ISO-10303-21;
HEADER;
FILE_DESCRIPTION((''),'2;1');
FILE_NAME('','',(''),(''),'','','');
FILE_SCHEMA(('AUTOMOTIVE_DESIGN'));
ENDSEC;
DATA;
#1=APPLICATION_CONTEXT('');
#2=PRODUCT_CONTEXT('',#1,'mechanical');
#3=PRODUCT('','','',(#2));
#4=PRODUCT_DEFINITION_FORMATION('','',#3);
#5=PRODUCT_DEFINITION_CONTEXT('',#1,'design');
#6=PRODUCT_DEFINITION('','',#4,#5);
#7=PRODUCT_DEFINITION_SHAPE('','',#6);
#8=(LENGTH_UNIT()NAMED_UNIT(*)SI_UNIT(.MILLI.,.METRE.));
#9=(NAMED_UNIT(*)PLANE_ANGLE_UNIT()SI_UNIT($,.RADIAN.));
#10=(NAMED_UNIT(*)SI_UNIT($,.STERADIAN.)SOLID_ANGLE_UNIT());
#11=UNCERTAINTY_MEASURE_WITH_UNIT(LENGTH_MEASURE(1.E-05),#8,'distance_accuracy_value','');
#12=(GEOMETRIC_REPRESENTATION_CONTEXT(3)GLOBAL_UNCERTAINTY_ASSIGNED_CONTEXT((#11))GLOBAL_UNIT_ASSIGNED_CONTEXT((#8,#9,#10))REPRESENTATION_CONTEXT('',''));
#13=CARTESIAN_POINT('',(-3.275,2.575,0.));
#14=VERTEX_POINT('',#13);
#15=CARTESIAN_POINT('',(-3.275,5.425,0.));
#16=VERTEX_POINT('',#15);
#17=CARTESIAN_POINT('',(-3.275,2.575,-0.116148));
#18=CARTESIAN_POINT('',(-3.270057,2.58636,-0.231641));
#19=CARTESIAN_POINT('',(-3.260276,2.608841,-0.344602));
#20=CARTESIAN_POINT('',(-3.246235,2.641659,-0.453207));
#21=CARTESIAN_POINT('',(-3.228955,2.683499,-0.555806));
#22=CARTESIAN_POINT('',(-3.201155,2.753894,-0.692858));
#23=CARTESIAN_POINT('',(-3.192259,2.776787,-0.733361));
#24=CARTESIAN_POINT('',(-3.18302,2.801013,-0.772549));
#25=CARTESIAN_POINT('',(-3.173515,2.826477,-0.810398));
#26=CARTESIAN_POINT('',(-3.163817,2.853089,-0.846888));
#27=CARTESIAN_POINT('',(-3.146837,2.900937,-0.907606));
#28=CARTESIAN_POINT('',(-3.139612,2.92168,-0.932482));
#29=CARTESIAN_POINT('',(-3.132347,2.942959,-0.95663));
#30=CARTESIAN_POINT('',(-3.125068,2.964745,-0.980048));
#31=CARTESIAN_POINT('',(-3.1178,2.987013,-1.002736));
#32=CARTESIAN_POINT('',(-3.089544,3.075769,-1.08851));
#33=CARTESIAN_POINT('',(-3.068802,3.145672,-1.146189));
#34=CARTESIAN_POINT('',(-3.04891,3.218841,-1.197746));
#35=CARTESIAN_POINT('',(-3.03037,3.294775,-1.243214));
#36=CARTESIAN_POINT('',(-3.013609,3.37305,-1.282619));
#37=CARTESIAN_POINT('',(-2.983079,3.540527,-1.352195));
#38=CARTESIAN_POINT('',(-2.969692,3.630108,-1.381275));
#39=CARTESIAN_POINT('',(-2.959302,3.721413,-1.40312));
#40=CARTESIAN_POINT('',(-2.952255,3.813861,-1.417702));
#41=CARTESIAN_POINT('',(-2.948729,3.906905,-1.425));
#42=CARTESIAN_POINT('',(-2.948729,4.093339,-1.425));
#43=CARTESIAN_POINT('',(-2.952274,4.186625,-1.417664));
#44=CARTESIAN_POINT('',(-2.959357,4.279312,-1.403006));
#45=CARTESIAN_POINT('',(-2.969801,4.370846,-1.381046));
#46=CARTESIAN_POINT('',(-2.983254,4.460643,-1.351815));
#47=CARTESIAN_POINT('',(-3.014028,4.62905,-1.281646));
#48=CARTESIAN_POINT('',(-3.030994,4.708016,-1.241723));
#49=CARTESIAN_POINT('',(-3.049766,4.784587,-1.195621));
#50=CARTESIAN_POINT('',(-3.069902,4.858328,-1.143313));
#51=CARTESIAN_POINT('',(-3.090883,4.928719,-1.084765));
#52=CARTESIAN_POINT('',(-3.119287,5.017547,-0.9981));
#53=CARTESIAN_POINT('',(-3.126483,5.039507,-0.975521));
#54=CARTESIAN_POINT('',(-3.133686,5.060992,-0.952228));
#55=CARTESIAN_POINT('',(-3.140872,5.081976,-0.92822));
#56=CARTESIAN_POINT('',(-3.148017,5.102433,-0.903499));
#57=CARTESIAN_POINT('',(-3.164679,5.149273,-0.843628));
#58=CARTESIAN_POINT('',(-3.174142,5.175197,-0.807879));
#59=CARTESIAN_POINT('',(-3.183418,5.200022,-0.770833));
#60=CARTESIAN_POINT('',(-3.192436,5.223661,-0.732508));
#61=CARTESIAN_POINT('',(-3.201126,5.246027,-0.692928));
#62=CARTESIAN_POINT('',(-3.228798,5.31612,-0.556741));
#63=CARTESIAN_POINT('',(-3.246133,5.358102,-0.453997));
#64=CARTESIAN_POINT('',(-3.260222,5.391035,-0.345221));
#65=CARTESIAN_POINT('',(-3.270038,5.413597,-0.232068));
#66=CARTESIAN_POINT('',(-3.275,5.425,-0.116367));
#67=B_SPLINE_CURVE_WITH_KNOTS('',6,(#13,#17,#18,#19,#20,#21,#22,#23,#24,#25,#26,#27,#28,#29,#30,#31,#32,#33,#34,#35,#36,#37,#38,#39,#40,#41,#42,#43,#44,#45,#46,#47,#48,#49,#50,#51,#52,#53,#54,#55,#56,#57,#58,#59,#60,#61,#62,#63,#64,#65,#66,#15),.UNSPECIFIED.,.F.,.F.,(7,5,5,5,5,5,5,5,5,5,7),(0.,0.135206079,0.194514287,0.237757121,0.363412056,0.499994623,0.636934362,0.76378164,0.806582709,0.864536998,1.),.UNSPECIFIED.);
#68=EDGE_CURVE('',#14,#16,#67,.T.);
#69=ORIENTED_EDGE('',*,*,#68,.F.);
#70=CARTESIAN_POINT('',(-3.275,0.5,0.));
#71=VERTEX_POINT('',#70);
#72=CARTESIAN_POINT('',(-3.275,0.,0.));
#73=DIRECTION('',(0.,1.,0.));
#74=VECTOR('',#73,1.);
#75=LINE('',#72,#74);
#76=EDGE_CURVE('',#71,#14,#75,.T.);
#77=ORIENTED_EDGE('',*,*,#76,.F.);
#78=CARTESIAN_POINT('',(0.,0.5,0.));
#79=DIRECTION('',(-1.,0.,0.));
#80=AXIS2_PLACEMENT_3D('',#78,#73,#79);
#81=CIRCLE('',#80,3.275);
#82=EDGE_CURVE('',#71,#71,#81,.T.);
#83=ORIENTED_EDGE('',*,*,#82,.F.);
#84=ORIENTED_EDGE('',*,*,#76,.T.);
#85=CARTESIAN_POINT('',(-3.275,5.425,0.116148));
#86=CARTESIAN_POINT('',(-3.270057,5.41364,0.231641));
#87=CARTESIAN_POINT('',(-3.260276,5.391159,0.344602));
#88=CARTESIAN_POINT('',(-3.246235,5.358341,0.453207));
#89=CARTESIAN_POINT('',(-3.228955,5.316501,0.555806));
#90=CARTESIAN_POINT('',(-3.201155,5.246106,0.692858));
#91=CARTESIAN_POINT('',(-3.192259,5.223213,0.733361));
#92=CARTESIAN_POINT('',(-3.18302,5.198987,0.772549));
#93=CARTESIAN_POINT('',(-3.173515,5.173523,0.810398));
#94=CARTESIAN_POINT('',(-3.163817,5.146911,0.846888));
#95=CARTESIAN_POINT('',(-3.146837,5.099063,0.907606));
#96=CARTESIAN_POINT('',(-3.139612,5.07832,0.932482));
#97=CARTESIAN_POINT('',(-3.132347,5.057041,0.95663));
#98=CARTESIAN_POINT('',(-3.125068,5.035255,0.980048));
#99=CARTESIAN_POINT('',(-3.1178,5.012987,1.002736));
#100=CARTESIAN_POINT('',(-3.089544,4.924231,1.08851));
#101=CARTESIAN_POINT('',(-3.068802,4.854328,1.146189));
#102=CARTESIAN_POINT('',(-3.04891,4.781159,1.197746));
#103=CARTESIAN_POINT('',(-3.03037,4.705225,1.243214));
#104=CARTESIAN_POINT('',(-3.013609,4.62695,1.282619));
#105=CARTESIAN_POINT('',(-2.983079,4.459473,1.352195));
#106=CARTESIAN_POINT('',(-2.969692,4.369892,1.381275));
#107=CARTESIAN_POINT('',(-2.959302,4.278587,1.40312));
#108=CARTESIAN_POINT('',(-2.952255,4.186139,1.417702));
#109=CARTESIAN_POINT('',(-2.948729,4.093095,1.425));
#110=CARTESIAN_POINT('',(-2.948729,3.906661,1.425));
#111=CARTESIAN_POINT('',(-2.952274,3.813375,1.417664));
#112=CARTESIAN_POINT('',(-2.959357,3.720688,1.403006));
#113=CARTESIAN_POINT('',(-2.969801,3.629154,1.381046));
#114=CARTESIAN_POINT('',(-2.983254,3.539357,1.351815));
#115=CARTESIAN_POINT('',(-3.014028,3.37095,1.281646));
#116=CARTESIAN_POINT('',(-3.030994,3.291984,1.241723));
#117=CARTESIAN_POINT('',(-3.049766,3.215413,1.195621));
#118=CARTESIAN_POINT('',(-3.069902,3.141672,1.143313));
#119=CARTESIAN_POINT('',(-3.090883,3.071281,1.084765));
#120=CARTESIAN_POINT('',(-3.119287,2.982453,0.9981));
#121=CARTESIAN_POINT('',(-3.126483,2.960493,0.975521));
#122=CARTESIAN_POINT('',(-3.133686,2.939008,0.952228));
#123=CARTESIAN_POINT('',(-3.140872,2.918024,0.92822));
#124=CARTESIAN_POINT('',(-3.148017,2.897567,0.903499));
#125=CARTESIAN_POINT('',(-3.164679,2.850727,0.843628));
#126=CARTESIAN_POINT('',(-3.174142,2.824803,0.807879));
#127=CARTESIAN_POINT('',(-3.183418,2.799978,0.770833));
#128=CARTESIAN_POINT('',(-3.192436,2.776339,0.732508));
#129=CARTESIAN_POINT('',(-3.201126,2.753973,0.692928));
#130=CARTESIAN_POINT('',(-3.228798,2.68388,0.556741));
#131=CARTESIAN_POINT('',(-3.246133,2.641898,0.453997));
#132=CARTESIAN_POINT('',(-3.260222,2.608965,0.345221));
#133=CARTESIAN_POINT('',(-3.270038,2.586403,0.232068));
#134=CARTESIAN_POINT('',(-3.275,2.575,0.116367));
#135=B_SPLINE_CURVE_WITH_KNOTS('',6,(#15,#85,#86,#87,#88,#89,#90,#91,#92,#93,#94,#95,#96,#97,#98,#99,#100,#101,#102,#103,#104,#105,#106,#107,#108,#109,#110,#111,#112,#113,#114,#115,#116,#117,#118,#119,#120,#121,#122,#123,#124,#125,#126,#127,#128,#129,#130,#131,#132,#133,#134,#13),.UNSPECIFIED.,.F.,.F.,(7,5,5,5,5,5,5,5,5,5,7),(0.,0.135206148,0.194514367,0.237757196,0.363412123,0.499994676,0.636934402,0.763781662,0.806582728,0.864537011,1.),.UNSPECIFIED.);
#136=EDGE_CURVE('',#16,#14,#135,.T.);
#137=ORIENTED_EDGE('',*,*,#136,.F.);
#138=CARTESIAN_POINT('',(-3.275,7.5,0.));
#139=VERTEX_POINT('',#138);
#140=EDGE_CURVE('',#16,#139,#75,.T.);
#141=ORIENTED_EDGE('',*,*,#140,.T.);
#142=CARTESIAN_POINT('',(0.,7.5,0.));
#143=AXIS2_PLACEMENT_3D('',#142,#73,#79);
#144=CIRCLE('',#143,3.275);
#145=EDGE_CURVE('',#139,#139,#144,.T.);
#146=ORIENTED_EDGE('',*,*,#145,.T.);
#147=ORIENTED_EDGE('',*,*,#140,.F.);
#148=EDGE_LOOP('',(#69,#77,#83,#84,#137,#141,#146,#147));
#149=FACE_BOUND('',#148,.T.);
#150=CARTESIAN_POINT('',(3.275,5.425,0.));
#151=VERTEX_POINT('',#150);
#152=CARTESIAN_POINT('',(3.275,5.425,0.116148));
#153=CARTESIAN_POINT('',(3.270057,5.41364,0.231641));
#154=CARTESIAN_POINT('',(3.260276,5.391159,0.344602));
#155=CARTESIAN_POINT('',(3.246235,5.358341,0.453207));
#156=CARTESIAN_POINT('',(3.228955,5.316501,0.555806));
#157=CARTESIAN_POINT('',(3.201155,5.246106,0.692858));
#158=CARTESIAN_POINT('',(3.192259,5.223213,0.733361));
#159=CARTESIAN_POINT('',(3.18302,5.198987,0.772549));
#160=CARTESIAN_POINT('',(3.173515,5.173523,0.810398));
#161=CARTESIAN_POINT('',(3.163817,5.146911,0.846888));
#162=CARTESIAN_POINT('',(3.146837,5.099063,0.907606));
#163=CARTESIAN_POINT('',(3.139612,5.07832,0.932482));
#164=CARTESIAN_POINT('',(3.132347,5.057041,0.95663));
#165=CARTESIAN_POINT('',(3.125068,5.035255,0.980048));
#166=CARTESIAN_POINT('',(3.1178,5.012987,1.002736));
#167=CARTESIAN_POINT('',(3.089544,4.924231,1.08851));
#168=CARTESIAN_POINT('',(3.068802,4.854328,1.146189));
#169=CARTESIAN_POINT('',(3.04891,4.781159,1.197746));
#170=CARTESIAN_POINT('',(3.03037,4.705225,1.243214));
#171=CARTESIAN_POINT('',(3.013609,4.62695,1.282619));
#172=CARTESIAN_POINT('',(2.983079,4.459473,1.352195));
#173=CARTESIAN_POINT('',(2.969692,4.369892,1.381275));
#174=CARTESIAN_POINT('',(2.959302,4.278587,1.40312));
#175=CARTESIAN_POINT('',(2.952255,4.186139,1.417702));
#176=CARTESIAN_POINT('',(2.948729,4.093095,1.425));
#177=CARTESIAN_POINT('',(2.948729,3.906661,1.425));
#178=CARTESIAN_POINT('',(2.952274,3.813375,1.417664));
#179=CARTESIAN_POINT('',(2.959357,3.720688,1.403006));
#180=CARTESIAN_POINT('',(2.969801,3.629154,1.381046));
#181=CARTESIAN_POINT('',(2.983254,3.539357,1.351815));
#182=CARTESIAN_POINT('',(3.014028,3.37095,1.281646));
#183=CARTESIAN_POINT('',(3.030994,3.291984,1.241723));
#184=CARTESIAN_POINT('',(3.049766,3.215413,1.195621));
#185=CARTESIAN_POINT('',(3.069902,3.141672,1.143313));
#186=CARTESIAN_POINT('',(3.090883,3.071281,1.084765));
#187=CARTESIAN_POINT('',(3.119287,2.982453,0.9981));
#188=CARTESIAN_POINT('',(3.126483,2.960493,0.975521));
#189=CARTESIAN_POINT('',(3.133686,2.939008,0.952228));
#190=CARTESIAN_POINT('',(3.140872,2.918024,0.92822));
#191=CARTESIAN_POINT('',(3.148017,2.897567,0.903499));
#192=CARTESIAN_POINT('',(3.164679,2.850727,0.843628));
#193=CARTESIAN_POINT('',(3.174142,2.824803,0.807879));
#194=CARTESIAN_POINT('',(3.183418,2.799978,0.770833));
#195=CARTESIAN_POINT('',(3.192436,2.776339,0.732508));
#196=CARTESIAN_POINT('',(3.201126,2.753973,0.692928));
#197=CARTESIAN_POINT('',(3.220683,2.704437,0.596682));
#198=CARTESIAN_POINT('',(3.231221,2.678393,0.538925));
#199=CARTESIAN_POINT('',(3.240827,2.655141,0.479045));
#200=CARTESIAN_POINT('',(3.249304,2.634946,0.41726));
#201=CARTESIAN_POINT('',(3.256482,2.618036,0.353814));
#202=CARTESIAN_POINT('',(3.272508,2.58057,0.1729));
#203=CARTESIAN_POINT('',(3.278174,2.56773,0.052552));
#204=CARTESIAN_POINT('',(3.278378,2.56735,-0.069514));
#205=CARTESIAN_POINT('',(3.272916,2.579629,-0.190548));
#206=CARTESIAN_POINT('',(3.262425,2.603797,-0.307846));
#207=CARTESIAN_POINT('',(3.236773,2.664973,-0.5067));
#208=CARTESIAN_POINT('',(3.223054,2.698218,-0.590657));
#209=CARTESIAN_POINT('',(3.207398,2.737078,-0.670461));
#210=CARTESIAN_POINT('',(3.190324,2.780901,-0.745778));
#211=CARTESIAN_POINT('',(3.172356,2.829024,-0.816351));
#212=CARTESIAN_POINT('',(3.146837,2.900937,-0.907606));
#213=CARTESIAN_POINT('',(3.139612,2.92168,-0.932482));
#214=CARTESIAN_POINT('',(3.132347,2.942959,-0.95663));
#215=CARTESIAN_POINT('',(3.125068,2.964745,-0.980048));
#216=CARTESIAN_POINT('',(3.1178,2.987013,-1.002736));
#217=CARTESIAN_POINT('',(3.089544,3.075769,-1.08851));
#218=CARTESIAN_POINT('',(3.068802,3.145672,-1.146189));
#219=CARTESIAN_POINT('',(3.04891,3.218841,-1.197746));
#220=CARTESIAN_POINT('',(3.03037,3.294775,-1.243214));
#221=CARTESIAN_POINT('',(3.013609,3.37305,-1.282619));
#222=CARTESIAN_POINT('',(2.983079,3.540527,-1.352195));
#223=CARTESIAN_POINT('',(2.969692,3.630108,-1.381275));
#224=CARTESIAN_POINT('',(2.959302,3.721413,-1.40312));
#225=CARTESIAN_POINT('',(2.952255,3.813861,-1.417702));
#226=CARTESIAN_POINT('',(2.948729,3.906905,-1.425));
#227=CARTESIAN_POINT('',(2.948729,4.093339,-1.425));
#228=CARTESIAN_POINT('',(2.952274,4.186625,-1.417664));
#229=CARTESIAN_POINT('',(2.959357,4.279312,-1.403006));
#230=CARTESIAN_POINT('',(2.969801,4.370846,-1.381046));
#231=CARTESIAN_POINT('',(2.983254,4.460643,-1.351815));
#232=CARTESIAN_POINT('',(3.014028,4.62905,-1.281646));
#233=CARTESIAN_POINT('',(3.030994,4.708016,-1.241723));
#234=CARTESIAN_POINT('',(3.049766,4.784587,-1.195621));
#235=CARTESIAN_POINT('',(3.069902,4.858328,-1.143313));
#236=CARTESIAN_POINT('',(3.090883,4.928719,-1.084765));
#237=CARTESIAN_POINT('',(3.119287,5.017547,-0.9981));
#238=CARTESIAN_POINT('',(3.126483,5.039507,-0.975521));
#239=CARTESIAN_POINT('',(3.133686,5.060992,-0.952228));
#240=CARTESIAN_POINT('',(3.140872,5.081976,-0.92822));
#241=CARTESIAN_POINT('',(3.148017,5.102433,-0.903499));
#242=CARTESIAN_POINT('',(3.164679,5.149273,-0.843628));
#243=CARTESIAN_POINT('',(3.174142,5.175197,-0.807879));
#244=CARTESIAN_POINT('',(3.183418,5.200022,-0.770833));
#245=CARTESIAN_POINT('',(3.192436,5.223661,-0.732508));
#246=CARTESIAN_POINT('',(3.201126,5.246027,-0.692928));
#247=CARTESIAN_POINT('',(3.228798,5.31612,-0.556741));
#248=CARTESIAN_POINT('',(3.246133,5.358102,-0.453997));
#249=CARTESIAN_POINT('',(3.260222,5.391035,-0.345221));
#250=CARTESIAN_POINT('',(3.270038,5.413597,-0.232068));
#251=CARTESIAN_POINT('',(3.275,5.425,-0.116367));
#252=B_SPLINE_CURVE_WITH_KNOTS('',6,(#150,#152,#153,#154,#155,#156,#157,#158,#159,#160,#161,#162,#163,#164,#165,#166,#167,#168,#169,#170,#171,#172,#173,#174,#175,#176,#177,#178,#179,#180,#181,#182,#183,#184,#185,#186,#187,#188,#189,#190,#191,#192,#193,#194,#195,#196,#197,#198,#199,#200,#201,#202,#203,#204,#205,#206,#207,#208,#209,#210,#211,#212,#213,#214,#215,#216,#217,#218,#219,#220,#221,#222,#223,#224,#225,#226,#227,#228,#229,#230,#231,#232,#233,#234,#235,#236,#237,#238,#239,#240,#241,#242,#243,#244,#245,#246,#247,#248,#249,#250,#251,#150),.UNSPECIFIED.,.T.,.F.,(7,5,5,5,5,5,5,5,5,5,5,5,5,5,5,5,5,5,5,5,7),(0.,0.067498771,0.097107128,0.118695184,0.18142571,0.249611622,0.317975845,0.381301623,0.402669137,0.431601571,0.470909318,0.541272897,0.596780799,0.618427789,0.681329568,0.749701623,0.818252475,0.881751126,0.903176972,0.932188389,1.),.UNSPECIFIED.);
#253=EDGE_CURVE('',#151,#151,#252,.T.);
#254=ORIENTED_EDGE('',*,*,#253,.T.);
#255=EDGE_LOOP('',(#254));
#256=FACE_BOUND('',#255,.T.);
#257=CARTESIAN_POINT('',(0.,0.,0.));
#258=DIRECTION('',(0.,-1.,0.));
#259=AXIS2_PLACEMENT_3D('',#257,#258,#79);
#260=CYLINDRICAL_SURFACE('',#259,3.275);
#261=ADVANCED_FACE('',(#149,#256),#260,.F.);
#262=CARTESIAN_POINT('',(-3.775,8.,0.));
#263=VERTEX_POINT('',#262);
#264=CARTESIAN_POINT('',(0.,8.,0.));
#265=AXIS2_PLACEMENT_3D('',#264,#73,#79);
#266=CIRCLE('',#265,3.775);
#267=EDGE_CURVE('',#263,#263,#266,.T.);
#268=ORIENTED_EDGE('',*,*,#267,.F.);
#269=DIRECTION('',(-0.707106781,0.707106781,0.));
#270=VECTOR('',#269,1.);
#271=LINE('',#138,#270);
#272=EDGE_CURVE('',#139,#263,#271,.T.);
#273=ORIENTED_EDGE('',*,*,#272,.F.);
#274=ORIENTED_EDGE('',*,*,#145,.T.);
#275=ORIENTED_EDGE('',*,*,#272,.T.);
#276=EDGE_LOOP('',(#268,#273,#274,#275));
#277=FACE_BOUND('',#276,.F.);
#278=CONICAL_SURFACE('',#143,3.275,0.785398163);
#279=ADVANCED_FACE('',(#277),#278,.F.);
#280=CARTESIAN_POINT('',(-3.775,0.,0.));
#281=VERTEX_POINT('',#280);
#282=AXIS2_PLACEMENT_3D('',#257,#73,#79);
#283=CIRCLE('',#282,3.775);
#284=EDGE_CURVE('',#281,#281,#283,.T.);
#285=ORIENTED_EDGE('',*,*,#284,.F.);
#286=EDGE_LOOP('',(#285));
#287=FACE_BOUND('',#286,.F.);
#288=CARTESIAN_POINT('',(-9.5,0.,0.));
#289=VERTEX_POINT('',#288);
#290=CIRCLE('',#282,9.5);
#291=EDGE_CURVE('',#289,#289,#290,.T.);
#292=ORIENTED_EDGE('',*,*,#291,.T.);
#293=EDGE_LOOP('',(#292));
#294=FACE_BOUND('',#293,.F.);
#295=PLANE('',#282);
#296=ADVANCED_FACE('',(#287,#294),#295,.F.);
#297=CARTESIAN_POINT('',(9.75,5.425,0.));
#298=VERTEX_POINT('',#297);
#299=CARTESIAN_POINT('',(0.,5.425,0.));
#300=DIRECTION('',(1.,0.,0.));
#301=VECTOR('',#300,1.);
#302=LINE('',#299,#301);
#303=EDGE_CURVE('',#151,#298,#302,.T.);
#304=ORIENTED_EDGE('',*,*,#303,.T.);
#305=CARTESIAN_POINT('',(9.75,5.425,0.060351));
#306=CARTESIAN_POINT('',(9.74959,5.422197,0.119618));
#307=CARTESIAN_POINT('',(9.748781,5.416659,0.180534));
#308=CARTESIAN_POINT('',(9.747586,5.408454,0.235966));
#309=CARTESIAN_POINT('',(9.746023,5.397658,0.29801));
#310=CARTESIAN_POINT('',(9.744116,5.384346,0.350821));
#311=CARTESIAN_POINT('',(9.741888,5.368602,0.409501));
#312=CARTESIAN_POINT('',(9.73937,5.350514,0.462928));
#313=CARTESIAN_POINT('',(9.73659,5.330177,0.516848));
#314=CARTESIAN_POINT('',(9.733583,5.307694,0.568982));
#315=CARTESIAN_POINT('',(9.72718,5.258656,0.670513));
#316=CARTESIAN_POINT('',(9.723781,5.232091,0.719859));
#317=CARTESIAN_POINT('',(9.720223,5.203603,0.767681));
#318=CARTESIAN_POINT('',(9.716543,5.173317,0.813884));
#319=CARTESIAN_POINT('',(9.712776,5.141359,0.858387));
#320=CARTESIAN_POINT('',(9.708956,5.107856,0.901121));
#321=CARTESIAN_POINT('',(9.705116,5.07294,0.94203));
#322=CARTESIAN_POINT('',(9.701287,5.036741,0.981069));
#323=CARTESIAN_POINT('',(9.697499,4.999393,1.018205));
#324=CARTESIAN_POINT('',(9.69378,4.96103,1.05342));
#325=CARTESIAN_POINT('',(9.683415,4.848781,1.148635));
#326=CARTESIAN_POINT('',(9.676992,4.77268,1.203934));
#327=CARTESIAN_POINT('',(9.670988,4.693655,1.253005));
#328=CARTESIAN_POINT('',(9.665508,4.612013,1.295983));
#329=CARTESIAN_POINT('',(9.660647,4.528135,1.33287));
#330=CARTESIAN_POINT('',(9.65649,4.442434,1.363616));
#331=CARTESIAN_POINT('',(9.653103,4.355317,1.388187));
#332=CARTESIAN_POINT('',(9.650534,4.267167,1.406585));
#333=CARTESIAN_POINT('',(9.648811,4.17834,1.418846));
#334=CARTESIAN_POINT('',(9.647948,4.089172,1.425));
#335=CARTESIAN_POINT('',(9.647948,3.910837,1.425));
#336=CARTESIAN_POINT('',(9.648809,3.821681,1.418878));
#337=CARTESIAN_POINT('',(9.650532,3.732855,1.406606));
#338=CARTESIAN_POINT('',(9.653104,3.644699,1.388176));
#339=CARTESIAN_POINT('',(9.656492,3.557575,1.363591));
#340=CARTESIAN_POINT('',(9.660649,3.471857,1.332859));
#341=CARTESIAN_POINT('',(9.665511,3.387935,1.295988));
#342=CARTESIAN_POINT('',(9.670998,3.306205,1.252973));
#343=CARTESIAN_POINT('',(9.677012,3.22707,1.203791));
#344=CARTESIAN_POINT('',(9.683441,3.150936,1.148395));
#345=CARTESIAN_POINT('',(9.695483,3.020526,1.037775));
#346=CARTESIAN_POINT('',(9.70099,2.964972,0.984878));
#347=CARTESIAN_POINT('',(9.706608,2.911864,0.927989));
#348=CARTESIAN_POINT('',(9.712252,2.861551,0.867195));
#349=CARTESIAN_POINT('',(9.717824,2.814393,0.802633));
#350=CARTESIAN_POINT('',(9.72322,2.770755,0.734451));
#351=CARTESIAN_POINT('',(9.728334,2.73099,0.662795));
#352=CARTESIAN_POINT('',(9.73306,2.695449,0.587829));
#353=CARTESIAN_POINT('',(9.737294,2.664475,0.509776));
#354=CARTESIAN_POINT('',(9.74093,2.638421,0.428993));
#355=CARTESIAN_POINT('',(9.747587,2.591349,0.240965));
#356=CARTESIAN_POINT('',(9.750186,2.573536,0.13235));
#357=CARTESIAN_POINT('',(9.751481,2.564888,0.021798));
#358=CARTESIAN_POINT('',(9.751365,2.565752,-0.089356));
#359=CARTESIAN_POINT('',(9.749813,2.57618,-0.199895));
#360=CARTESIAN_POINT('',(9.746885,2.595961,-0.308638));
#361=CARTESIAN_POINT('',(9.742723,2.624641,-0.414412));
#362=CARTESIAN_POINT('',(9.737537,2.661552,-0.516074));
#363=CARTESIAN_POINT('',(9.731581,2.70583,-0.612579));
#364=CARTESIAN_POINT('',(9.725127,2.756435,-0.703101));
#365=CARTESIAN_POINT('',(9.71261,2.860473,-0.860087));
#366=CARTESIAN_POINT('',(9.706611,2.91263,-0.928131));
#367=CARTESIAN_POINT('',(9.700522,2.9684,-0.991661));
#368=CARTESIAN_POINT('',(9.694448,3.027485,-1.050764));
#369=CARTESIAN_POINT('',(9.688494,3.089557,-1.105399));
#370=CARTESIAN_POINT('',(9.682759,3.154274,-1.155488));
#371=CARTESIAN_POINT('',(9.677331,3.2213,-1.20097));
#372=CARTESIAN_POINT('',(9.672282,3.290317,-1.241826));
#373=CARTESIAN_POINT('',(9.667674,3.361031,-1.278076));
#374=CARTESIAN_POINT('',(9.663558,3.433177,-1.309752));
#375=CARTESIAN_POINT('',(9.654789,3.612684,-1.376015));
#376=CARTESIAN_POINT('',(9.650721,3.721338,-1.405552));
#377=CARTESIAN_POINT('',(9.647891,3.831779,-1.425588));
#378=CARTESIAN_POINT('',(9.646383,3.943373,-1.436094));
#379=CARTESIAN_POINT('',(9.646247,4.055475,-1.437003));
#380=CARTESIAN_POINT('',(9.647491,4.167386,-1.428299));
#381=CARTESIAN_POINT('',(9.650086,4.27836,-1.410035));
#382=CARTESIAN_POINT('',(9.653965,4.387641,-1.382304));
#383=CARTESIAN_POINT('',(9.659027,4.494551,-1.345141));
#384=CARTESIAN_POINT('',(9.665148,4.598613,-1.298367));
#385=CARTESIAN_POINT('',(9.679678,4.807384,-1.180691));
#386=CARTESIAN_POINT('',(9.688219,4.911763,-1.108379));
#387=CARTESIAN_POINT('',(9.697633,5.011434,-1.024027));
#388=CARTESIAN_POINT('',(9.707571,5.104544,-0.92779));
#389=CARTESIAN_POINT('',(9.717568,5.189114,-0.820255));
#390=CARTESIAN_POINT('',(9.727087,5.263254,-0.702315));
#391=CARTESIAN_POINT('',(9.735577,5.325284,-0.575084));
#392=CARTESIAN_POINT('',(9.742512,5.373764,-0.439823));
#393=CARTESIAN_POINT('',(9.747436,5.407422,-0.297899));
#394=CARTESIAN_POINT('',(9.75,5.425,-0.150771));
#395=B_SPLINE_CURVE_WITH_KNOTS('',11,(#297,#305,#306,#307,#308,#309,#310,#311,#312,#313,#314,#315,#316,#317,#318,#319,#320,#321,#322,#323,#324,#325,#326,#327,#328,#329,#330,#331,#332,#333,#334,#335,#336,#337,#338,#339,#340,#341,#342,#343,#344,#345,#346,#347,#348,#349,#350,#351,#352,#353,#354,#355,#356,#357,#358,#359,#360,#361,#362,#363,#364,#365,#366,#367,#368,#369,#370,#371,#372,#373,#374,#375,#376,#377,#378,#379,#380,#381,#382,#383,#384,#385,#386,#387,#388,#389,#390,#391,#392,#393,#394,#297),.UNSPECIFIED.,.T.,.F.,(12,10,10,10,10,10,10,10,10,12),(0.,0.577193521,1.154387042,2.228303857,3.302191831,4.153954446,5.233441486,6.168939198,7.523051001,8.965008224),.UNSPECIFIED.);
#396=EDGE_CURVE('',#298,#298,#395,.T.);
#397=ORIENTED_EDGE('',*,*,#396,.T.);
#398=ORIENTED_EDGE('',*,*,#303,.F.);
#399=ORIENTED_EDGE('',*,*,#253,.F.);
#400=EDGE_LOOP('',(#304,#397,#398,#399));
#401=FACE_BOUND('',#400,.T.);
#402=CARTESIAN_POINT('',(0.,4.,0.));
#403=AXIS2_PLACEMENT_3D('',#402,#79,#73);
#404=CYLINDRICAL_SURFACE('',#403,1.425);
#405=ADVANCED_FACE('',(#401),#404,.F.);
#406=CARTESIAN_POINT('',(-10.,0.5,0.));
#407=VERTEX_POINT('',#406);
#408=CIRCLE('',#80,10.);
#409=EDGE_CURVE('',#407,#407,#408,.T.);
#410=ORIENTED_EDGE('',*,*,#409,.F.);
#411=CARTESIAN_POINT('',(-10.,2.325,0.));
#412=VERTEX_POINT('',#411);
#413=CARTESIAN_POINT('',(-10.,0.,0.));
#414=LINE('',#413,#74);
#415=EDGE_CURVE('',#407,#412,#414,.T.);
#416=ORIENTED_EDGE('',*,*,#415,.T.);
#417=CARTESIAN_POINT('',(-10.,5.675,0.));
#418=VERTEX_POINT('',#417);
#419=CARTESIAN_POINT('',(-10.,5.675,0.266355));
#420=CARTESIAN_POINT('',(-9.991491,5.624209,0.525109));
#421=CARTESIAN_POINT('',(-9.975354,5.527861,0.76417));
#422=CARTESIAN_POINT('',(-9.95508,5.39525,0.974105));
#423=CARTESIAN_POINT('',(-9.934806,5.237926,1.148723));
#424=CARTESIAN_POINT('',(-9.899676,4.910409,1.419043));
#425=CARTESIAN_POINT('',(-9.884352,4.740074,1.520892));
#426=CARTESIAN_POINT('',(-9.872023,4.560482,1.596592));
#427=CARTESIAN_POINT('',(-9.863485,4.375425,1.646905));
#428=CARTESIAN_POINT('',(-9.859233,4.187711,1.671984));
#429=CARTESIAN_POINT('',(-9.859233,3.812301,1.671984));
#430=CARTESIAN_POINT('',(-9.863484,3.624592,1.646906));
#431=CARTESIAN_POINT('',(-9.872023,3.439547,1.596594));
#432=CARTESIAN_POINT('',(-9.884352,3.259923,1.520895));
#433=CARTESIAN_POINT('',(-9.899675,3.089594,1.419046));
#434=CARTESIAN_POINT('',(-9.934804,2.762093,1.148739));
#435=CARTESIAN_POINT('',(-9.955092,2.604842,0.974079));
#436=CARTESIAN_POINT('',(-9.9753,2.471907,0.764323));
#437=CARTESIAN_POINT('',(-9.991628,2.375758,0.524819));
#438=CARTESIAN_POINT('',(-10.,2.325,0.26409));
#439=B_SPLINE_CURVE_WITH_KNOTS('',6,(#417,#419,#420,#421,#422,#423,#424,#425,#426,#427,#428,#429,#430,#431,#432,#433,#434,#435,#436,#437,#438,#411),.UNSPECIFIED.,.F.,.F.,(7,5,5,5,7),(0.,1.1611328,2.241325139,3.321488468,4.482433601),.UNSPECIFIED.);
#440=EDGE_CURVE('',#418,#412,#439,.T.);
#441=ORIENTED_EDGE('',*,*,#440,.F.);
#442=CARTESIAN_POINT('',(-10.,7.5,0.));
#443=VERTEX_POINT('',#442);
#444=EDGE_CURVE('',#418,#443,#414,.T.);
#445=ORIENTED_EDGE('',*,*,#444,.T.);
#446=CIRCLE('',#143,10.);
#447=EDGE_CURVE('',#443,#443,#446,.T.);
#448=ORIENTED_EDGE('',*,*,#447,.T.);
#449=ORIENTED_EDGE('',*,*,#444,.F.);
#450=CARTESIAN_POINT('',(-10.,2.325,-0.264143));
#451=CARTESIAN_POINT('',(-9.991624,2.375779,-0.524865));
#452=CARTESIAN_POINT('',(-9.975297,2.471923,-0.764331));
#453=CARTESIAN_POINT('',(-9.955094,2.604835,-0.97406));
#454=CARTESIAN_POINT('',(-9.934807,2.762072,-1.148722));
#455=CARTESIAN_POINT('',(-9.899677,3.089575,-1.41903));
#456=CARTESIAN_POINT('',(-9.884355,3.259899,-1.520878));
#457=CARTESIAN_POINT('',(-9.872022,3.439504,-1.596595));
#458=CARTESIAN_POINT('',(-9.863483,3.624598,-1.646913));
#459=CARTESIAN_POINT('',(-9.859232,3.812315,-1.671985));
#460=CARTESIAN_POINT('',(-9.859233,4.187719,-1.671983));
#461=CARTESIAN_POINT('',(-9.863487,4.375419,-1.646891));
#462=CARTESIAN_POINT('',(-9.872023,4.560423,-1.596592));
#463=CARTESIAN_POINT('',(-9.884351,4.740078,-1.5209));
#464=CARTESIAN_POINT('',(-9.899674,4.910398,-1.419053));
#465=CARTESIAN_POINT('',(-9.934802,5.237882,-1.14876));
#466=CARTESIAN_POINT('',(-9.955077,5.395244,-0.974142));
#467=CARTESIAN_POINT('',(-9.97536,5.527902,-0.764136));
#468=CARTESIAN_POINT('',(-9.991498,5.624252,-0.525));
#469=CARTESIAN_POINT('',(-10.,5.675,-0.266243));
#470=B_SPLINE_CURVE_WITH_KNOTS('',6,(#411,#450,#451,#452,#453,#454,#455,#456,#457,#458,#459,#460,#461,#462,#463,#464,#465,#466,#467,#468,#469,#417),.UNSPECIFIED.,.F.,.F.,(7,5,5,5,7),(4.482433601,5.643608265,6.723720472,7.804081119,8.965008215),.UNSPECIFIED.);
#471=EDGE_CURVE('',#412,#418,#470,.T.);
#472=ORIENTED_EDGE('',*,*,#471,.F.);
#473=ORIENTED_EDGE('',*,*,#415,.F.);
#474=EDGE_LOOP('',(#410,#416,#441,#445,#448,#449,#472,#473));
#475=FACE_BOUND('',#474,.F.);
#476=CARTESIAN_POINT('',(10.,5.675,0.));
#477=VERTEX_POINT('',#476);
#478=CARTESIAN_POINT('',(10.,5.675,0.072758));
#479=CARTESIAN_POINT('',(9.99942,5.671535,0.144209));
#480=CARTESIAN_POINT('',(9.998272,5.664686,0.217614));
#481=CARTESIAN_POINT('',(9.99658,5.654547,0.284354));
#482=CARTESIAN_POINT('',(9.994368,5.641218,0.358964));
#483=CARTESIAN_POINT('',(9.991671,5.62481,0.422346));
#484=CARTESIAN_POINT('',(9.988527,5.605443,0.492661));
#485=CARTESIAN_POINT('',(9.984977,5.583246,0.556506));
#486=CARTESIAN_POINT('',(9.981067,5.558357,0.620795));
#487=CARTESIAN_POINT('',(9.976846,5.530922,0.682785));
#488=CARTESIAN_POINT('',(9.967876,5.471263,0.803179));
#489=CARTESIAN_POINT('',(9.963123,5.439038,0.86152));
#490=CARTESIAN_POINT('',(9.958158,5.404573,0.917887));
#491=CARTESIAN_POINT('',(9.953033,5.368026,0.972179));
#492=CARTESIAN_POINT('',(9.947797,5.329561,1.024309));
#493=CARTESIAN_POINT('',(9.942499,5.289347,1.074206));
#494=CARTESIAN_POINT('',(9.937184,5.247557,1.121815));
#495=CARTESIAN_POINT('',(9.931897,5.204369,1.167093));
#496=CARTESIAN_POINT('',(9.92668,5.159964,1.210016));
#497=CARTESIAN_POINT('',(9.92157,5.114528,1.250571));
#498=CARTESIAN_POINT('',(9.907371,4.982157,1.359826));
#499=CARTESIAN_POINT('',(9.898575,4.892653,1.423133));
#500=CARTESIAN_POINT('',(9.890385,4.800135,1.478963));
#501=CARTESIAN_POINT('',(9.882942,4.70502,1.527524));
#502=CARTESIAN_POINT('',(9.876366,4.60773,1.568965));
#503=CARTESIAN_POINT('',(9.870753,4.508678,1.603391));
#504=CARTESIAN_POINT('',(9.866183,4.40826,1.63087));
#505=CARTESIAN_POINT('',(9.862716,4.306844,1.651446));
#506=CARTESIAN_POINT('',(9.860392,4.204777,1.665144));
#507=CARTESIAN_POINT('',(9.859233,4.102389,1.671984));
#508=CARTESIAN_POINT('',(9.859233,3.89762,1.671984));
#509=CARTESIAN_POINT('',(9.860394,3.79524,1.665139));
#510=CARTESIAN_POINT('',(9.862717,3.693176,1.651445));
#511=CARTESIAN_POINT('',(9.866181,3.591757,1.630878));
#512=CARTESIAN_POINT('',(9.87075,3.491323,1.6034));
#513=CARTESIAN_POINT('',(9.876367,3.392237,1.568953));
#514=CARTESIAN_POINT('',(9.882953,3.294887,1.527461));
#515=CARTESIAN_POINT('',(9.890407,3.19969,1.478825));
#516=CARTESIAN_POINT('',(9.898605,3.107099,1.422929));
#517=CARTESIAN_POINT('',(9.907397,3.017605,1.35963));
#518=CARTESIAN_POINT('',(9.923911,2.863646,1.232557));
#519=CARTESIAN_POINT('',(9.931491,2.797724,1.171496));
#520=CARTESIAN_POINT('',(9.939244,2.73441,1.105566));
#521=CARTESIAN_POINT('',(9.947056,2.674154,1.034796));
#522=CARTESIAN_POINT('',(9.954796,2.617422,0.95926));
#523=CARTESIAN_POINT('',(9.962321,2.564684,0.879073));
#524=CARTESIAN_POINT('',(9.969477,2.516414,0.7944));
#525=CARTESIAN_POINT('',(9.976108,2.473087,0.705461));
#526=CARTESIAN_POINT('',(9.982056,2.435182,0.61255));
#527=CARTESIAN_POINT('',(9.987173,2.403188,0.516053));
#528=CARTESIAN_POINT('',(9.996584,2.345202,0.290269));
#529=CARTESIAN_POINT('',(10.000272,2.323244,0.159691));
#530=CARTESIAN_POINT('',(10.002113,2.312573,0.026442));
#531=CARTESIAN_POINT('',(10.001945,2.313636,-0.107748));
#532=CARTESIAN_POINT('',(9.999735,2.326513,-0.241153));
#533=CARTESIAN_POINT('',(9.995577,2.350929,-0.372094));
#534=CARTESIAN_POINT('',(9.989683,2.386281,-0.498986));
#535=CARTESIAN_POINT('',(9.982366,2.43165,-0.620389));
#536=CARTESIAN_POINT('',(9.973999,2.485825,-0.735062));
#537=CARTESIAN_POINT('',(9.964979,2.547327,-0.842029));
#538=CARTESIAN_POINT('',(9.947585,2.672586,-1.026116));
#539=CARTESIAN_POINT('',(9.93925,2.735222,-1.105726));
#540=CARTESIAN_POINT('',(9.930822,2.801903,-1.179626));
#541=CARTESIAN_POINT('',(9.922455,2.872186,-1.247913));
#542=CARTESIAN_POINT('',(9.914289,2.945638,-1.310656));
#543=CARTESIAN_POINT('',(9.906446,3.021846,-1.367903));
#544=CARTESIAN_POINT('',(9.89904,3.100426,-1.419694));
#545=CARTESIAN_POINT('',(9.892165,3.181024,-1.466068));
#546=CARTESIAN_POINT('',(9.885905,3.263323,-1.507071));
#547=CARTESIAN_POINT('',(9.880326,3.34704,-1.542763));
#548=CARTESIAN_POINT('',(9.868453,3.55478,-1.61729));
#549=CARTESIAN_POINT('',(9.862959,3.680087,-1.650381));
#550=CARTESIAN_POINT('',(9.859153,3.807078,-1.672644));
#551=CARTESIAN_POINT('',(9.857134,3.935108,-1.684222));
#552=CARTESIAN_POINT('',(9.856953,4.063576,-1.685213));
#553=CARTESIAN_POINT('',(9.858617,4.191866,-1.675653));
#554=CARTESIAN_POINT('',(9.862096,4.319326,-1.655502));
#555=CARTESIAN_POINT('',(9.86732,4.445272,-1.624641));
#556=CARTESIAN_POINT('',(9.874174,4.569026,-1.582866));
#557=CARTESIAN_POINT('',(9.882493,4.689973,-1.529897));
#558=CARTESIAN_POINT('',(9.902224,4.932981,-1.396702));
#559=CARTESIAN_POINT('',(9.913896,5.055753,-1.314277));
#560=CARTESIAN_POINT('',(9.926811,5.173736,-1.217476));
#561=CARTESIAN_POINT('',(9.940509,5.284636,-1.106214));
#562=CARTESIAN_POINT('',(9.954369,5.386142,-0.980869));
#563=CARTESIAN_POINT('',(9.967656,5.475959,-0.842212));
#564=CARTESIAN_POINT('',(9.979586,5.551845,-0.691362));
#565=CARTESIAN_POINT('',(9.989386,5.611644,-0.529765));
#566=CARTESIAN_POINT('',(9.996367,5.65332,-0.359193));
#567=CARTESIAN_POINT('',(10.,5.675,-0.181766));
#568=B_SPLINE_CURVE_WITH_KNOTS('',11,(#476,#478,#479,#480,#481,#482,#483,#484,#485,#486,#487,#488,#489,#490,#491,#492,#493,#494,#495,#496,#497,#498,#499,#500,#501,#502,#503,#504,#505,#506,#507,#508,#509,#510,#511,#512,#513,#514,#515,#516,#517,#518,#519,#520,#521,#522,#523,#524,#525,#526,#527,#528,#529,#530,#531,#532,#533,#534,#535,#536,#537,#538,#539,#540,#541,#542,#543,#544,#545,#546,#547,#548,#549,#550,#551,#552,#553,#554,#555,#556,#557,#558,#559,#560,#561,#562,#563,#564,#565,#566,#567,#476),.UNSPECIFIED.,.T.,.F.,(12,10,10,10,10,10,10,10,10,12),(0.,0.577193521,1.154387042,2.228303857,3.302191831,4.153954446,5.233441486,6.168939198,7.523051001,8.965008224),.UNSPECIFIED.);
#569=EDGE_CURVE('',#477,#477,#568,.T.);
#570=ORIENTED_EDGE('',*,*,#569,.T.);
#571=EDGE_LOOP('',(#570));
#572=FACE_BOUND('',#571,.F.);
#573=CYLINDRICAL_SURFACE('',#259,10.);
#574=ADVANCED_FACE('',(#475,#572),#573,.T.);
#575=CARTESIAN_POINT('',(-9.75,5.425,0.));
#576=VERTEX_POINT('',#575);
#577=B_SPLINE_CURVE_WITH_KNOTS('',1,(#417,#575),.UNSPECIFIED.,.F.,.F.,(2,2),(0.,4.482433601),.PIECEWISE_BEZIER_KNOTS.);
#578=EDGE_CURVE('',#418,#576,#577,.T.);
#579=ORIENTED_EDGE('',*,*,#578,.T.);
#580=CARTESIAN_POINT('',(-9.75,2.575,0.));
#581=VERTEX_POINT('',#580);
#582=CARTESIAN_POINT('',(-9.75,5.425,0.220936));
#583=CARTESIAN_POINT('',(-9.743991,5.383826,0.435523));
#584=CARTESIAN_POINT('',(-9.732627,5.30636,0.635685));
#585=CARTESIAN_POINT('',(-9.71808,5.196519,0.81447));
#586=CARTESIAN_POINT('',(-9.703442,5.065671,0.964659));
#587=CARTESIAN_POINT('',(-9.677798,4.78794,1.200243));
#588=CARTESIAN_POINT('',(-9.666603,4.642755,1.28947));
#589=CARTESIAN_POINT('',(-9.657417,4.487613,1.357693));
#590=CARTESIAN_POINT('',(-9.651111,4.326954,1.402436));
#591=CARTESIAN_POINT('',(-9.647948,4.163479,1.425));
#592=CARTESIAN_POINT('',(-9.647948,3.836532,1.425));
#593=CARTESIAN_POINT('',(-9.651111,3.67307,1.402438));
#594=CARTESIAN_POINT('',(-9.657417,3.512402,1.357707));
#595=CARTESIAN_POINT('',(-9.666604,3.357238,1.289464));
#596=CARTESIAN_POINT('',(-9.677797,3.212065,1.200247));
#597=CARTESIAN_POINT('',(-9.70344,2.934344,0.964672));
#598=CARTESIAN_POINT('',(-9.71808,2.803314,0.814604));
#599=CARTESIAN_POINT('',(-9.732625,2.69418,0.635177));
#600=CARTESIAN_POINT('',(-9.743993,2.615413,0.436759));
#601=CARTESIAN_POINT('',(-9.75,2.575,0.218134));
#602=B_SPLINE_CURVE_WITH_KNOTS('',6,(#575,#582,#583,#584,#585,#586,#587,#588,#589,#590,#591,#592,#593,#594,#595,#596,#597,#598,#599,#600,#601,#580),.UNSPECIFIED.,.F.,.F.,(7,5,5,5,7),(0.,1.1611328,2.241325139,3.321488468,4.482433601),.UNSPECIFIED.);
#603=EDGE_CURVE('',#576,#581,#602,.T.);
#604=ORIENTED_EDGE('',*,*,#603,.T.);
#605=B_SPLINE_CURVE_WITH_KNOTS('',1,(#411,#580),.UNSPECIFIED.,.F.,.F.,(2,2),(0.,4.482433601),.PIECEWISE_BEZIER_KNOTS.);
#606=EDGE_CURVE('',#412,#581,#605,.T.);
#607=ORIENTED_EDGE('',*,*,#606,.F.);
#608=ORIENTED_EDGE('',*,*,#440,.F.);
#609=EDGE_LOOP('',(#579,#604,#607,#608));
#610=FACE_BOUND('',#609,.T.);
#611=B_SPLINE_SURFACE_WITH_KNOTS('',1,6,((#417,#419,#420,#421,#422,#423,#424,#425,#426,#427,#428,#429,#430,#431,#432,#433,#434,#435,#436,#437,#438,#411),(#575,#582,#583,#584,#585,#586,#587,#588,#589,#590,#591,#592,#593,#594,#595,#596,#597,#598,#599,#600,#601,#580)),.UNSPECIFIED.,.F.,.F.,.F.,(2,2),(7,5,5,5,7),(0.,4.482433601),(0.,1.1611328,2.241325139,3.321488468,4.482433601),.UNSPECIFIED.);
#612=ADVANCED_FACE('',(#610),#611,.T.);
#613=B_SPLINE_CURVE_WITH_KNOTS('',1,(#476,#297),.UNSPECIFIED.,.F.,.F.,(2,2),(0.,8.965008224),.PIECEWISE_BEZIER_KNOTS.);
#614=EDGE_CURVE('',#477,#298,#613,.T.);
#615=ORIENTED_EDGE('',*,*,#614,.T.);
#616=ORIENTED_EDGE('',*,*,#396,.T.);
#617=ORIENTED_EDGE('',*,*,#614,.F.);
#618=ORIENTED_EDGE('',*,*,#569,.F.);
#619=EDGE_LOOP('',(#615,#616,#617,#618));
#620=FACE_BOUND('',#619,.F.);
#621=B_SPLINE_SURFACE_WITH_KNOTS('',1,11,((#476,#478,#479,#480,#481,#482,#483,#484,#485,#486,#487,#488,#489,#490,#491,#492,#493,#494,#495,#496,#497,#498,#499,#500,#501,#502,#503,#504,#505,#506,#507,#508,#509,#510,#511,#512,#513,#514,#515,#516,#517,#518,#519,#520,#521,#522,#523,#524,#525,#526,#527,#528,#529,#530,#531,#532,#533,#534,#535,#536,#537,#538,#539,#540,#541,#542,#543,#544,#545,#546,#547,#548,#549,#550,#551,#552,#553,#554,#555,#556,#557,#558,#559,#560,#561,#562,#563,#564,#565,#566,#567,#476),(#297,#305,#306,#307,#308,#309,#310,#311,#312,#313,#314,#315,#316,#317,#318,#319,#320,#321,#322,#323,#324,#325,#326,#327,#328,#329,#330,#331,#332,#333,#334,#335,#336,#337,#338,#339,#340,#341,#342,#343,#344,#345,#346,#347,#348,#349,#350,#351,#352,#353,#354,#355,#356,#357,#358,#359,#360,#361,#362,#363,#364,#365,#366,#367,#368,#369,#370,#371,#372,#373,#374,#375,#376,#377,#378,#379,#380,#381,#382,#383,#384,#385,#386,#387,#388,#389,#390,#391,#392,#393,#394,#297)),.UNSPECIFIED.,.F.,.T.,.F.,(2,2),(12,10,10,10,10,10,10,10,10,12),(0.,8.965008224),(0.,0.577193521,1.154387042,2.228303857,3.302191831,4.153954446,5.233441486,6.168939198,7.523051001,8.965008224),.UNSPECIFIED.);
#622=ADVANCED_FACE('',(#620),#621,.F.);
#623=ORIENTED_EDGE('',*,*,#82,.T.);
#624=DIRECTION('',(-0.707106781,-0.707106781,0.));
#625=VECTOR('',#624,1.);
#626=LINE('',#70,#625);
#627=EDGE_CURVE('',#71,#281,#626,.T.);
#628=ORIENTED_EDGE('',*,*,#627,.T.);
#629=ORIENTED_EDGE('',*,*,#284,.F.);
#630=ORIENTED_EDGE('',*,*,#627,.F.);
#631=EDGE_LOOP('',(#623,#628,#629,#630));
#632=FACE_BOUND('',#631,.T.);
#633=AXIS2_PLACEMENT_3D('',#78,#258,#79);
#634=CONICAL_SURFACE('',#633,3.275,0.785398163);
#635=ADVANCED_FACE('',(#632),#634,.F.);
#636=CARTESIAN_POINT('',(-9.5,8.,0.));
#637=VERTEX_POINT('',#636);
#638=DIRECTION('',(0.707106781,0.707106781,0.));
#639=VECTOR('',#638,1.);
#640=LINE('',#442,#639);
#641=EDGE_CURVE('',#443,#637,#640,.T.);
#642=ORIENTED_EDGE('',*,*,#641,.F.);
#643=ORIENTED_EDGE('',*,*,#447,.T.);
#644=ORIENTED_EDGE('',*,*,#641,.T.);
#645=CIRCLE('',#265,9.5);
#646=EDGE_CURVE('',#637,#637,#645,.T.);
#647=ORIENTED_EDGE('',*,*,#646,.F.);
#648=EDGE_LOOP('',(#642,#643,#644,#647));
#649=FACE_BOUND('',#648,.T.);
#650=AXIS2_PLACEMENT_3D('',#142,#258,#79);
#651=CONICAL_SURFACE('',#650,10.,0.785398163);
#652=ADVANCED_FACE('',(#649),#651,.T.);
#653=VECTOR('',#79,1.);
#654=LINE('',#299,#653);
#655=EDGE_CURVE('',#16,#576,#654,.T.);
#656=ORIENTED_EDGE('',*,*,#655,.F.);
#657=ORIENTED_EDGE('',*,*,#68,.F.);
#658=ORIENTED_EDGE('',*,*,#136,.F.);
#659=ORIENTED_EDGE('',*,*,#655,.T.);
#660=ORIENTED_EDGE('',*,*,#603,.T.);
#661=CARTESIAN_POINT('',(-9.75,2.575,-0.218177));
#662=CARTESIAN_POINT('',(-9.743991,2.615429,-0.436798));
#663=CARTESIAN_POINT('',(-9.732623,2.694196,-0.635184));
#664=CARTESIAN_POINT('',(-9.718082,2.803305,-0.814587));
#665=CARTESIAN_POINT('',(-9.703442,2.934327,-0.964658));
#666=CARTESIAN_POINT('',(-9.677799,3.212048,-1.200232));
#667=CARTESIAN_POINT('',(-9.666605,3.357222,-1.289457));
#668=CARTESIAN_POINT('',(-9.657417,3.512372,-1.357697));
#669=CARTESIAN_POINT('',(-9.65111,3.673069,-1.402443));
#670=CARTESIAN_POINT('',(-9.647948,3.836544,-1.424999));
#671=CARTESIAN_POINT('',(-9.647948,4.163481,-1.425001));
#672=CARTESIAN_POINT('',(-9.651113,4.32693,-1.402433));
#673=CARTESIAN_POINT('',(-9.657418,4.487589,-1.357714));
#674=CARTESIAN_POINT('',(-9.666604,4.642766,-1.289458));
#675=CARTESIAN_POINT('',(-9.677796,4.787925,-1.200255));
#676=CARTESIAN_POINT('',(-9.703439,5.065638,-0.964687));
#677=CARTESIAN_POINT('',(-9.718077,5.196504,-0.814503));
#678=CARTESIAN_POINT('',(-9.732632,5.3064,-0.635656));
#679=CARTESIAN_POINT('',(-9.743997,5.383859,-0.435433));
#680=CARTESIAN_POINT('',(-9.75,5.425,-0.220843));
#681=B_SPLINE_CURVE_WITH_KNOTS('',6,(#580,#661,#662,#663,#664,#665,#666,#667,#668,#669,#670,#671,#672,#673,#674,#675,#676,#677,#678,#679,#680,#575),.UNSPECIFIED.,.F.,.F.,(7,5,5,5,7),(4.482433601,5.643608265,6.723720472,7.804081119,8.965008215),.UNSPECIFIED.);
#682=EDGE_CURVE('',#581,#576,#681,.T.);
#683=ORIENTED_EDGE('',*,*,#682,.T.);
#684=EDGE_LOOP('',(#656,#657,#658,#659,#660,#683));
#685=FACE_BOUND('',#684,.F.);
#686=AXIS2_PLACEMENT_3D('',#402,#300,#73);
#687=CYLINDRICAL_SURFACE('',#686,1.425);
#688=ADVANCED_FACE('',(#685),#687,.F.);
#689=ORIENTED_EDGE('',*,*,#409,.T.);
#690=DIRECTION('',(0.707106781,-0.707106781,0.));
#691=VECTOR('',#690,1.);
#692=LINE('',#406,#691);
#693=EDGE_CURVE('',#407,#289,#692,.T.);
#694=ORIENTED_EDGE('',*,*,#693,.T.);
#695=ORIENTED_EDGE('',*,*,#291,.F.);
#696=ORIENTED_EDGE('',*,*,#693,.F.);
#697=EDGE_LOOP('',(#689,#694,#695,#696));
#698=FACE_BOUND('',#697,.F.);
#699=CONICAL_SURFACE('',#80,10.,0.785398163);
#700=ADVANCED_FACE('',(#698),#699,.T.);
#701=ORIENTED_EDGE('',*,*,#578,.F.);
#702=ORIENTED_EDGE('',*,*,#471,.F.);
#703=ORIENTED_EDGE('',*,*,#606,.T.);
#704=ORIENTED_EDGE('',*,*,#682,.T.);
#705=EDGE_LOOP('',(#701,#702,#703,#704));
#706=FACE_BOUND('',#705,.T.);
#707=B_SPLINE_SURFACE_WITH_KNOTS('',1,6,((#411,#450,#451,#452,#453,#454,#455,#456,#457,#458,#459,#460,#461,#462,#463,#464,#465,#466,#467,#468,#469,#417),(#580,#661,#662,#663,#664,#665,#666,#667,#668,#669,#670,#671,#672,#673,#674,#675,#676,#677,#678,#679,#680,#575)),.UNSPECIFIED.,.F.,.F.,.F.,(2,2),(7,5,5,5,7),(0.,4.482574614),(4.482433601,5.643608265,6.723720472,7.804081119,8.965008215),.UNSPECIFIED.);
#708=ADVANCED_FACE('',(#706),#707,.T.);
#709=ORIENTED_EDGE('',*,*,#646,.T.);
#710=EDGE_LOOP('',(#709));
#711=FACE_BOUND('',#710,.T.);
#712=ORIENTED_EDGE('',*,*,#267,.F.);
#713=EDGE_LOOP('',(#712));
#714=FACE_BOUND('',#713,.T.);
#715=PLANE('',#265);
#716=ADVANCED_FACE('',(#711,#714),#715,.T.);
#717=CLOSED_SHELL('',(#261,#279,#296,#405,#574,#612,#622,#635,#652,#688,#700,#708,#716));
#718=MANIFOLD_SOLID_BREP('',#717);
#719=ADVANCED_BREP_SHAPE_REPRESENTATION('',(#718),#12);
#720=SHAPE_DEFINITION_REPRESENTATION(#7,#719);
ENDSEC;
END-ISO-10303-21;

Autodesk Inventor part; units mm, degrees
ref_plane "YZ Plane" through (0, 0, 0) normal (1, 0, 0) x (0, 1, 0)
ref_plane "XZ Plane" through (0, 0, 0) normal (0, 1, 0) x (-1, 0, 0)
ref_plane "XY Plane" through (0, 0, 0) normal (0, 0, 1) x (1, 0, 0)
sketch "Sketch1" plane through (0, 0, 0) normal (0, 1, 0) x (-1, 0, 0)
  circle A0 centre (0, 0) radius 3.275
  circle A1 centre (0, 0) radius 10
  dimension "d0" = 6.55
  dimension "d1" = 20
extrude "Extrusion1" add sketch "Sketch1" along normal blind 8
chamfer "Chamfer1" distance 0.5 angle 45 4 edges at (10, 8, 0) (10, 0, 0) (3.275, 0, 0) (3.275, 8, 0)
sketch "Sketch2" plane through (0, 0, 0) normal (1, 0, 0) x (0, 1, 0)
  circle A0 centre (4, 0) radius 1.425
  line L0 (8, 3.275) -> (8, -3.275) projected
  line L1 (0, -3.275) -> (0, 3.275) projected
  line L2 (0, 0) -> (8, 0) construction
  dimension "d7" = 2.85
extrude "Extrusion2" cut sketch "Sketch2" along normal through all both and the other way through all
chamfer "Chamfer2" distance 0.25 angle 45 3 edges at (-9.8979, 4.0001, 1.425) (-9.8979, 4, -1.425) (10, 2.5751, -0.0175)
properties part number "nylonClamp"
